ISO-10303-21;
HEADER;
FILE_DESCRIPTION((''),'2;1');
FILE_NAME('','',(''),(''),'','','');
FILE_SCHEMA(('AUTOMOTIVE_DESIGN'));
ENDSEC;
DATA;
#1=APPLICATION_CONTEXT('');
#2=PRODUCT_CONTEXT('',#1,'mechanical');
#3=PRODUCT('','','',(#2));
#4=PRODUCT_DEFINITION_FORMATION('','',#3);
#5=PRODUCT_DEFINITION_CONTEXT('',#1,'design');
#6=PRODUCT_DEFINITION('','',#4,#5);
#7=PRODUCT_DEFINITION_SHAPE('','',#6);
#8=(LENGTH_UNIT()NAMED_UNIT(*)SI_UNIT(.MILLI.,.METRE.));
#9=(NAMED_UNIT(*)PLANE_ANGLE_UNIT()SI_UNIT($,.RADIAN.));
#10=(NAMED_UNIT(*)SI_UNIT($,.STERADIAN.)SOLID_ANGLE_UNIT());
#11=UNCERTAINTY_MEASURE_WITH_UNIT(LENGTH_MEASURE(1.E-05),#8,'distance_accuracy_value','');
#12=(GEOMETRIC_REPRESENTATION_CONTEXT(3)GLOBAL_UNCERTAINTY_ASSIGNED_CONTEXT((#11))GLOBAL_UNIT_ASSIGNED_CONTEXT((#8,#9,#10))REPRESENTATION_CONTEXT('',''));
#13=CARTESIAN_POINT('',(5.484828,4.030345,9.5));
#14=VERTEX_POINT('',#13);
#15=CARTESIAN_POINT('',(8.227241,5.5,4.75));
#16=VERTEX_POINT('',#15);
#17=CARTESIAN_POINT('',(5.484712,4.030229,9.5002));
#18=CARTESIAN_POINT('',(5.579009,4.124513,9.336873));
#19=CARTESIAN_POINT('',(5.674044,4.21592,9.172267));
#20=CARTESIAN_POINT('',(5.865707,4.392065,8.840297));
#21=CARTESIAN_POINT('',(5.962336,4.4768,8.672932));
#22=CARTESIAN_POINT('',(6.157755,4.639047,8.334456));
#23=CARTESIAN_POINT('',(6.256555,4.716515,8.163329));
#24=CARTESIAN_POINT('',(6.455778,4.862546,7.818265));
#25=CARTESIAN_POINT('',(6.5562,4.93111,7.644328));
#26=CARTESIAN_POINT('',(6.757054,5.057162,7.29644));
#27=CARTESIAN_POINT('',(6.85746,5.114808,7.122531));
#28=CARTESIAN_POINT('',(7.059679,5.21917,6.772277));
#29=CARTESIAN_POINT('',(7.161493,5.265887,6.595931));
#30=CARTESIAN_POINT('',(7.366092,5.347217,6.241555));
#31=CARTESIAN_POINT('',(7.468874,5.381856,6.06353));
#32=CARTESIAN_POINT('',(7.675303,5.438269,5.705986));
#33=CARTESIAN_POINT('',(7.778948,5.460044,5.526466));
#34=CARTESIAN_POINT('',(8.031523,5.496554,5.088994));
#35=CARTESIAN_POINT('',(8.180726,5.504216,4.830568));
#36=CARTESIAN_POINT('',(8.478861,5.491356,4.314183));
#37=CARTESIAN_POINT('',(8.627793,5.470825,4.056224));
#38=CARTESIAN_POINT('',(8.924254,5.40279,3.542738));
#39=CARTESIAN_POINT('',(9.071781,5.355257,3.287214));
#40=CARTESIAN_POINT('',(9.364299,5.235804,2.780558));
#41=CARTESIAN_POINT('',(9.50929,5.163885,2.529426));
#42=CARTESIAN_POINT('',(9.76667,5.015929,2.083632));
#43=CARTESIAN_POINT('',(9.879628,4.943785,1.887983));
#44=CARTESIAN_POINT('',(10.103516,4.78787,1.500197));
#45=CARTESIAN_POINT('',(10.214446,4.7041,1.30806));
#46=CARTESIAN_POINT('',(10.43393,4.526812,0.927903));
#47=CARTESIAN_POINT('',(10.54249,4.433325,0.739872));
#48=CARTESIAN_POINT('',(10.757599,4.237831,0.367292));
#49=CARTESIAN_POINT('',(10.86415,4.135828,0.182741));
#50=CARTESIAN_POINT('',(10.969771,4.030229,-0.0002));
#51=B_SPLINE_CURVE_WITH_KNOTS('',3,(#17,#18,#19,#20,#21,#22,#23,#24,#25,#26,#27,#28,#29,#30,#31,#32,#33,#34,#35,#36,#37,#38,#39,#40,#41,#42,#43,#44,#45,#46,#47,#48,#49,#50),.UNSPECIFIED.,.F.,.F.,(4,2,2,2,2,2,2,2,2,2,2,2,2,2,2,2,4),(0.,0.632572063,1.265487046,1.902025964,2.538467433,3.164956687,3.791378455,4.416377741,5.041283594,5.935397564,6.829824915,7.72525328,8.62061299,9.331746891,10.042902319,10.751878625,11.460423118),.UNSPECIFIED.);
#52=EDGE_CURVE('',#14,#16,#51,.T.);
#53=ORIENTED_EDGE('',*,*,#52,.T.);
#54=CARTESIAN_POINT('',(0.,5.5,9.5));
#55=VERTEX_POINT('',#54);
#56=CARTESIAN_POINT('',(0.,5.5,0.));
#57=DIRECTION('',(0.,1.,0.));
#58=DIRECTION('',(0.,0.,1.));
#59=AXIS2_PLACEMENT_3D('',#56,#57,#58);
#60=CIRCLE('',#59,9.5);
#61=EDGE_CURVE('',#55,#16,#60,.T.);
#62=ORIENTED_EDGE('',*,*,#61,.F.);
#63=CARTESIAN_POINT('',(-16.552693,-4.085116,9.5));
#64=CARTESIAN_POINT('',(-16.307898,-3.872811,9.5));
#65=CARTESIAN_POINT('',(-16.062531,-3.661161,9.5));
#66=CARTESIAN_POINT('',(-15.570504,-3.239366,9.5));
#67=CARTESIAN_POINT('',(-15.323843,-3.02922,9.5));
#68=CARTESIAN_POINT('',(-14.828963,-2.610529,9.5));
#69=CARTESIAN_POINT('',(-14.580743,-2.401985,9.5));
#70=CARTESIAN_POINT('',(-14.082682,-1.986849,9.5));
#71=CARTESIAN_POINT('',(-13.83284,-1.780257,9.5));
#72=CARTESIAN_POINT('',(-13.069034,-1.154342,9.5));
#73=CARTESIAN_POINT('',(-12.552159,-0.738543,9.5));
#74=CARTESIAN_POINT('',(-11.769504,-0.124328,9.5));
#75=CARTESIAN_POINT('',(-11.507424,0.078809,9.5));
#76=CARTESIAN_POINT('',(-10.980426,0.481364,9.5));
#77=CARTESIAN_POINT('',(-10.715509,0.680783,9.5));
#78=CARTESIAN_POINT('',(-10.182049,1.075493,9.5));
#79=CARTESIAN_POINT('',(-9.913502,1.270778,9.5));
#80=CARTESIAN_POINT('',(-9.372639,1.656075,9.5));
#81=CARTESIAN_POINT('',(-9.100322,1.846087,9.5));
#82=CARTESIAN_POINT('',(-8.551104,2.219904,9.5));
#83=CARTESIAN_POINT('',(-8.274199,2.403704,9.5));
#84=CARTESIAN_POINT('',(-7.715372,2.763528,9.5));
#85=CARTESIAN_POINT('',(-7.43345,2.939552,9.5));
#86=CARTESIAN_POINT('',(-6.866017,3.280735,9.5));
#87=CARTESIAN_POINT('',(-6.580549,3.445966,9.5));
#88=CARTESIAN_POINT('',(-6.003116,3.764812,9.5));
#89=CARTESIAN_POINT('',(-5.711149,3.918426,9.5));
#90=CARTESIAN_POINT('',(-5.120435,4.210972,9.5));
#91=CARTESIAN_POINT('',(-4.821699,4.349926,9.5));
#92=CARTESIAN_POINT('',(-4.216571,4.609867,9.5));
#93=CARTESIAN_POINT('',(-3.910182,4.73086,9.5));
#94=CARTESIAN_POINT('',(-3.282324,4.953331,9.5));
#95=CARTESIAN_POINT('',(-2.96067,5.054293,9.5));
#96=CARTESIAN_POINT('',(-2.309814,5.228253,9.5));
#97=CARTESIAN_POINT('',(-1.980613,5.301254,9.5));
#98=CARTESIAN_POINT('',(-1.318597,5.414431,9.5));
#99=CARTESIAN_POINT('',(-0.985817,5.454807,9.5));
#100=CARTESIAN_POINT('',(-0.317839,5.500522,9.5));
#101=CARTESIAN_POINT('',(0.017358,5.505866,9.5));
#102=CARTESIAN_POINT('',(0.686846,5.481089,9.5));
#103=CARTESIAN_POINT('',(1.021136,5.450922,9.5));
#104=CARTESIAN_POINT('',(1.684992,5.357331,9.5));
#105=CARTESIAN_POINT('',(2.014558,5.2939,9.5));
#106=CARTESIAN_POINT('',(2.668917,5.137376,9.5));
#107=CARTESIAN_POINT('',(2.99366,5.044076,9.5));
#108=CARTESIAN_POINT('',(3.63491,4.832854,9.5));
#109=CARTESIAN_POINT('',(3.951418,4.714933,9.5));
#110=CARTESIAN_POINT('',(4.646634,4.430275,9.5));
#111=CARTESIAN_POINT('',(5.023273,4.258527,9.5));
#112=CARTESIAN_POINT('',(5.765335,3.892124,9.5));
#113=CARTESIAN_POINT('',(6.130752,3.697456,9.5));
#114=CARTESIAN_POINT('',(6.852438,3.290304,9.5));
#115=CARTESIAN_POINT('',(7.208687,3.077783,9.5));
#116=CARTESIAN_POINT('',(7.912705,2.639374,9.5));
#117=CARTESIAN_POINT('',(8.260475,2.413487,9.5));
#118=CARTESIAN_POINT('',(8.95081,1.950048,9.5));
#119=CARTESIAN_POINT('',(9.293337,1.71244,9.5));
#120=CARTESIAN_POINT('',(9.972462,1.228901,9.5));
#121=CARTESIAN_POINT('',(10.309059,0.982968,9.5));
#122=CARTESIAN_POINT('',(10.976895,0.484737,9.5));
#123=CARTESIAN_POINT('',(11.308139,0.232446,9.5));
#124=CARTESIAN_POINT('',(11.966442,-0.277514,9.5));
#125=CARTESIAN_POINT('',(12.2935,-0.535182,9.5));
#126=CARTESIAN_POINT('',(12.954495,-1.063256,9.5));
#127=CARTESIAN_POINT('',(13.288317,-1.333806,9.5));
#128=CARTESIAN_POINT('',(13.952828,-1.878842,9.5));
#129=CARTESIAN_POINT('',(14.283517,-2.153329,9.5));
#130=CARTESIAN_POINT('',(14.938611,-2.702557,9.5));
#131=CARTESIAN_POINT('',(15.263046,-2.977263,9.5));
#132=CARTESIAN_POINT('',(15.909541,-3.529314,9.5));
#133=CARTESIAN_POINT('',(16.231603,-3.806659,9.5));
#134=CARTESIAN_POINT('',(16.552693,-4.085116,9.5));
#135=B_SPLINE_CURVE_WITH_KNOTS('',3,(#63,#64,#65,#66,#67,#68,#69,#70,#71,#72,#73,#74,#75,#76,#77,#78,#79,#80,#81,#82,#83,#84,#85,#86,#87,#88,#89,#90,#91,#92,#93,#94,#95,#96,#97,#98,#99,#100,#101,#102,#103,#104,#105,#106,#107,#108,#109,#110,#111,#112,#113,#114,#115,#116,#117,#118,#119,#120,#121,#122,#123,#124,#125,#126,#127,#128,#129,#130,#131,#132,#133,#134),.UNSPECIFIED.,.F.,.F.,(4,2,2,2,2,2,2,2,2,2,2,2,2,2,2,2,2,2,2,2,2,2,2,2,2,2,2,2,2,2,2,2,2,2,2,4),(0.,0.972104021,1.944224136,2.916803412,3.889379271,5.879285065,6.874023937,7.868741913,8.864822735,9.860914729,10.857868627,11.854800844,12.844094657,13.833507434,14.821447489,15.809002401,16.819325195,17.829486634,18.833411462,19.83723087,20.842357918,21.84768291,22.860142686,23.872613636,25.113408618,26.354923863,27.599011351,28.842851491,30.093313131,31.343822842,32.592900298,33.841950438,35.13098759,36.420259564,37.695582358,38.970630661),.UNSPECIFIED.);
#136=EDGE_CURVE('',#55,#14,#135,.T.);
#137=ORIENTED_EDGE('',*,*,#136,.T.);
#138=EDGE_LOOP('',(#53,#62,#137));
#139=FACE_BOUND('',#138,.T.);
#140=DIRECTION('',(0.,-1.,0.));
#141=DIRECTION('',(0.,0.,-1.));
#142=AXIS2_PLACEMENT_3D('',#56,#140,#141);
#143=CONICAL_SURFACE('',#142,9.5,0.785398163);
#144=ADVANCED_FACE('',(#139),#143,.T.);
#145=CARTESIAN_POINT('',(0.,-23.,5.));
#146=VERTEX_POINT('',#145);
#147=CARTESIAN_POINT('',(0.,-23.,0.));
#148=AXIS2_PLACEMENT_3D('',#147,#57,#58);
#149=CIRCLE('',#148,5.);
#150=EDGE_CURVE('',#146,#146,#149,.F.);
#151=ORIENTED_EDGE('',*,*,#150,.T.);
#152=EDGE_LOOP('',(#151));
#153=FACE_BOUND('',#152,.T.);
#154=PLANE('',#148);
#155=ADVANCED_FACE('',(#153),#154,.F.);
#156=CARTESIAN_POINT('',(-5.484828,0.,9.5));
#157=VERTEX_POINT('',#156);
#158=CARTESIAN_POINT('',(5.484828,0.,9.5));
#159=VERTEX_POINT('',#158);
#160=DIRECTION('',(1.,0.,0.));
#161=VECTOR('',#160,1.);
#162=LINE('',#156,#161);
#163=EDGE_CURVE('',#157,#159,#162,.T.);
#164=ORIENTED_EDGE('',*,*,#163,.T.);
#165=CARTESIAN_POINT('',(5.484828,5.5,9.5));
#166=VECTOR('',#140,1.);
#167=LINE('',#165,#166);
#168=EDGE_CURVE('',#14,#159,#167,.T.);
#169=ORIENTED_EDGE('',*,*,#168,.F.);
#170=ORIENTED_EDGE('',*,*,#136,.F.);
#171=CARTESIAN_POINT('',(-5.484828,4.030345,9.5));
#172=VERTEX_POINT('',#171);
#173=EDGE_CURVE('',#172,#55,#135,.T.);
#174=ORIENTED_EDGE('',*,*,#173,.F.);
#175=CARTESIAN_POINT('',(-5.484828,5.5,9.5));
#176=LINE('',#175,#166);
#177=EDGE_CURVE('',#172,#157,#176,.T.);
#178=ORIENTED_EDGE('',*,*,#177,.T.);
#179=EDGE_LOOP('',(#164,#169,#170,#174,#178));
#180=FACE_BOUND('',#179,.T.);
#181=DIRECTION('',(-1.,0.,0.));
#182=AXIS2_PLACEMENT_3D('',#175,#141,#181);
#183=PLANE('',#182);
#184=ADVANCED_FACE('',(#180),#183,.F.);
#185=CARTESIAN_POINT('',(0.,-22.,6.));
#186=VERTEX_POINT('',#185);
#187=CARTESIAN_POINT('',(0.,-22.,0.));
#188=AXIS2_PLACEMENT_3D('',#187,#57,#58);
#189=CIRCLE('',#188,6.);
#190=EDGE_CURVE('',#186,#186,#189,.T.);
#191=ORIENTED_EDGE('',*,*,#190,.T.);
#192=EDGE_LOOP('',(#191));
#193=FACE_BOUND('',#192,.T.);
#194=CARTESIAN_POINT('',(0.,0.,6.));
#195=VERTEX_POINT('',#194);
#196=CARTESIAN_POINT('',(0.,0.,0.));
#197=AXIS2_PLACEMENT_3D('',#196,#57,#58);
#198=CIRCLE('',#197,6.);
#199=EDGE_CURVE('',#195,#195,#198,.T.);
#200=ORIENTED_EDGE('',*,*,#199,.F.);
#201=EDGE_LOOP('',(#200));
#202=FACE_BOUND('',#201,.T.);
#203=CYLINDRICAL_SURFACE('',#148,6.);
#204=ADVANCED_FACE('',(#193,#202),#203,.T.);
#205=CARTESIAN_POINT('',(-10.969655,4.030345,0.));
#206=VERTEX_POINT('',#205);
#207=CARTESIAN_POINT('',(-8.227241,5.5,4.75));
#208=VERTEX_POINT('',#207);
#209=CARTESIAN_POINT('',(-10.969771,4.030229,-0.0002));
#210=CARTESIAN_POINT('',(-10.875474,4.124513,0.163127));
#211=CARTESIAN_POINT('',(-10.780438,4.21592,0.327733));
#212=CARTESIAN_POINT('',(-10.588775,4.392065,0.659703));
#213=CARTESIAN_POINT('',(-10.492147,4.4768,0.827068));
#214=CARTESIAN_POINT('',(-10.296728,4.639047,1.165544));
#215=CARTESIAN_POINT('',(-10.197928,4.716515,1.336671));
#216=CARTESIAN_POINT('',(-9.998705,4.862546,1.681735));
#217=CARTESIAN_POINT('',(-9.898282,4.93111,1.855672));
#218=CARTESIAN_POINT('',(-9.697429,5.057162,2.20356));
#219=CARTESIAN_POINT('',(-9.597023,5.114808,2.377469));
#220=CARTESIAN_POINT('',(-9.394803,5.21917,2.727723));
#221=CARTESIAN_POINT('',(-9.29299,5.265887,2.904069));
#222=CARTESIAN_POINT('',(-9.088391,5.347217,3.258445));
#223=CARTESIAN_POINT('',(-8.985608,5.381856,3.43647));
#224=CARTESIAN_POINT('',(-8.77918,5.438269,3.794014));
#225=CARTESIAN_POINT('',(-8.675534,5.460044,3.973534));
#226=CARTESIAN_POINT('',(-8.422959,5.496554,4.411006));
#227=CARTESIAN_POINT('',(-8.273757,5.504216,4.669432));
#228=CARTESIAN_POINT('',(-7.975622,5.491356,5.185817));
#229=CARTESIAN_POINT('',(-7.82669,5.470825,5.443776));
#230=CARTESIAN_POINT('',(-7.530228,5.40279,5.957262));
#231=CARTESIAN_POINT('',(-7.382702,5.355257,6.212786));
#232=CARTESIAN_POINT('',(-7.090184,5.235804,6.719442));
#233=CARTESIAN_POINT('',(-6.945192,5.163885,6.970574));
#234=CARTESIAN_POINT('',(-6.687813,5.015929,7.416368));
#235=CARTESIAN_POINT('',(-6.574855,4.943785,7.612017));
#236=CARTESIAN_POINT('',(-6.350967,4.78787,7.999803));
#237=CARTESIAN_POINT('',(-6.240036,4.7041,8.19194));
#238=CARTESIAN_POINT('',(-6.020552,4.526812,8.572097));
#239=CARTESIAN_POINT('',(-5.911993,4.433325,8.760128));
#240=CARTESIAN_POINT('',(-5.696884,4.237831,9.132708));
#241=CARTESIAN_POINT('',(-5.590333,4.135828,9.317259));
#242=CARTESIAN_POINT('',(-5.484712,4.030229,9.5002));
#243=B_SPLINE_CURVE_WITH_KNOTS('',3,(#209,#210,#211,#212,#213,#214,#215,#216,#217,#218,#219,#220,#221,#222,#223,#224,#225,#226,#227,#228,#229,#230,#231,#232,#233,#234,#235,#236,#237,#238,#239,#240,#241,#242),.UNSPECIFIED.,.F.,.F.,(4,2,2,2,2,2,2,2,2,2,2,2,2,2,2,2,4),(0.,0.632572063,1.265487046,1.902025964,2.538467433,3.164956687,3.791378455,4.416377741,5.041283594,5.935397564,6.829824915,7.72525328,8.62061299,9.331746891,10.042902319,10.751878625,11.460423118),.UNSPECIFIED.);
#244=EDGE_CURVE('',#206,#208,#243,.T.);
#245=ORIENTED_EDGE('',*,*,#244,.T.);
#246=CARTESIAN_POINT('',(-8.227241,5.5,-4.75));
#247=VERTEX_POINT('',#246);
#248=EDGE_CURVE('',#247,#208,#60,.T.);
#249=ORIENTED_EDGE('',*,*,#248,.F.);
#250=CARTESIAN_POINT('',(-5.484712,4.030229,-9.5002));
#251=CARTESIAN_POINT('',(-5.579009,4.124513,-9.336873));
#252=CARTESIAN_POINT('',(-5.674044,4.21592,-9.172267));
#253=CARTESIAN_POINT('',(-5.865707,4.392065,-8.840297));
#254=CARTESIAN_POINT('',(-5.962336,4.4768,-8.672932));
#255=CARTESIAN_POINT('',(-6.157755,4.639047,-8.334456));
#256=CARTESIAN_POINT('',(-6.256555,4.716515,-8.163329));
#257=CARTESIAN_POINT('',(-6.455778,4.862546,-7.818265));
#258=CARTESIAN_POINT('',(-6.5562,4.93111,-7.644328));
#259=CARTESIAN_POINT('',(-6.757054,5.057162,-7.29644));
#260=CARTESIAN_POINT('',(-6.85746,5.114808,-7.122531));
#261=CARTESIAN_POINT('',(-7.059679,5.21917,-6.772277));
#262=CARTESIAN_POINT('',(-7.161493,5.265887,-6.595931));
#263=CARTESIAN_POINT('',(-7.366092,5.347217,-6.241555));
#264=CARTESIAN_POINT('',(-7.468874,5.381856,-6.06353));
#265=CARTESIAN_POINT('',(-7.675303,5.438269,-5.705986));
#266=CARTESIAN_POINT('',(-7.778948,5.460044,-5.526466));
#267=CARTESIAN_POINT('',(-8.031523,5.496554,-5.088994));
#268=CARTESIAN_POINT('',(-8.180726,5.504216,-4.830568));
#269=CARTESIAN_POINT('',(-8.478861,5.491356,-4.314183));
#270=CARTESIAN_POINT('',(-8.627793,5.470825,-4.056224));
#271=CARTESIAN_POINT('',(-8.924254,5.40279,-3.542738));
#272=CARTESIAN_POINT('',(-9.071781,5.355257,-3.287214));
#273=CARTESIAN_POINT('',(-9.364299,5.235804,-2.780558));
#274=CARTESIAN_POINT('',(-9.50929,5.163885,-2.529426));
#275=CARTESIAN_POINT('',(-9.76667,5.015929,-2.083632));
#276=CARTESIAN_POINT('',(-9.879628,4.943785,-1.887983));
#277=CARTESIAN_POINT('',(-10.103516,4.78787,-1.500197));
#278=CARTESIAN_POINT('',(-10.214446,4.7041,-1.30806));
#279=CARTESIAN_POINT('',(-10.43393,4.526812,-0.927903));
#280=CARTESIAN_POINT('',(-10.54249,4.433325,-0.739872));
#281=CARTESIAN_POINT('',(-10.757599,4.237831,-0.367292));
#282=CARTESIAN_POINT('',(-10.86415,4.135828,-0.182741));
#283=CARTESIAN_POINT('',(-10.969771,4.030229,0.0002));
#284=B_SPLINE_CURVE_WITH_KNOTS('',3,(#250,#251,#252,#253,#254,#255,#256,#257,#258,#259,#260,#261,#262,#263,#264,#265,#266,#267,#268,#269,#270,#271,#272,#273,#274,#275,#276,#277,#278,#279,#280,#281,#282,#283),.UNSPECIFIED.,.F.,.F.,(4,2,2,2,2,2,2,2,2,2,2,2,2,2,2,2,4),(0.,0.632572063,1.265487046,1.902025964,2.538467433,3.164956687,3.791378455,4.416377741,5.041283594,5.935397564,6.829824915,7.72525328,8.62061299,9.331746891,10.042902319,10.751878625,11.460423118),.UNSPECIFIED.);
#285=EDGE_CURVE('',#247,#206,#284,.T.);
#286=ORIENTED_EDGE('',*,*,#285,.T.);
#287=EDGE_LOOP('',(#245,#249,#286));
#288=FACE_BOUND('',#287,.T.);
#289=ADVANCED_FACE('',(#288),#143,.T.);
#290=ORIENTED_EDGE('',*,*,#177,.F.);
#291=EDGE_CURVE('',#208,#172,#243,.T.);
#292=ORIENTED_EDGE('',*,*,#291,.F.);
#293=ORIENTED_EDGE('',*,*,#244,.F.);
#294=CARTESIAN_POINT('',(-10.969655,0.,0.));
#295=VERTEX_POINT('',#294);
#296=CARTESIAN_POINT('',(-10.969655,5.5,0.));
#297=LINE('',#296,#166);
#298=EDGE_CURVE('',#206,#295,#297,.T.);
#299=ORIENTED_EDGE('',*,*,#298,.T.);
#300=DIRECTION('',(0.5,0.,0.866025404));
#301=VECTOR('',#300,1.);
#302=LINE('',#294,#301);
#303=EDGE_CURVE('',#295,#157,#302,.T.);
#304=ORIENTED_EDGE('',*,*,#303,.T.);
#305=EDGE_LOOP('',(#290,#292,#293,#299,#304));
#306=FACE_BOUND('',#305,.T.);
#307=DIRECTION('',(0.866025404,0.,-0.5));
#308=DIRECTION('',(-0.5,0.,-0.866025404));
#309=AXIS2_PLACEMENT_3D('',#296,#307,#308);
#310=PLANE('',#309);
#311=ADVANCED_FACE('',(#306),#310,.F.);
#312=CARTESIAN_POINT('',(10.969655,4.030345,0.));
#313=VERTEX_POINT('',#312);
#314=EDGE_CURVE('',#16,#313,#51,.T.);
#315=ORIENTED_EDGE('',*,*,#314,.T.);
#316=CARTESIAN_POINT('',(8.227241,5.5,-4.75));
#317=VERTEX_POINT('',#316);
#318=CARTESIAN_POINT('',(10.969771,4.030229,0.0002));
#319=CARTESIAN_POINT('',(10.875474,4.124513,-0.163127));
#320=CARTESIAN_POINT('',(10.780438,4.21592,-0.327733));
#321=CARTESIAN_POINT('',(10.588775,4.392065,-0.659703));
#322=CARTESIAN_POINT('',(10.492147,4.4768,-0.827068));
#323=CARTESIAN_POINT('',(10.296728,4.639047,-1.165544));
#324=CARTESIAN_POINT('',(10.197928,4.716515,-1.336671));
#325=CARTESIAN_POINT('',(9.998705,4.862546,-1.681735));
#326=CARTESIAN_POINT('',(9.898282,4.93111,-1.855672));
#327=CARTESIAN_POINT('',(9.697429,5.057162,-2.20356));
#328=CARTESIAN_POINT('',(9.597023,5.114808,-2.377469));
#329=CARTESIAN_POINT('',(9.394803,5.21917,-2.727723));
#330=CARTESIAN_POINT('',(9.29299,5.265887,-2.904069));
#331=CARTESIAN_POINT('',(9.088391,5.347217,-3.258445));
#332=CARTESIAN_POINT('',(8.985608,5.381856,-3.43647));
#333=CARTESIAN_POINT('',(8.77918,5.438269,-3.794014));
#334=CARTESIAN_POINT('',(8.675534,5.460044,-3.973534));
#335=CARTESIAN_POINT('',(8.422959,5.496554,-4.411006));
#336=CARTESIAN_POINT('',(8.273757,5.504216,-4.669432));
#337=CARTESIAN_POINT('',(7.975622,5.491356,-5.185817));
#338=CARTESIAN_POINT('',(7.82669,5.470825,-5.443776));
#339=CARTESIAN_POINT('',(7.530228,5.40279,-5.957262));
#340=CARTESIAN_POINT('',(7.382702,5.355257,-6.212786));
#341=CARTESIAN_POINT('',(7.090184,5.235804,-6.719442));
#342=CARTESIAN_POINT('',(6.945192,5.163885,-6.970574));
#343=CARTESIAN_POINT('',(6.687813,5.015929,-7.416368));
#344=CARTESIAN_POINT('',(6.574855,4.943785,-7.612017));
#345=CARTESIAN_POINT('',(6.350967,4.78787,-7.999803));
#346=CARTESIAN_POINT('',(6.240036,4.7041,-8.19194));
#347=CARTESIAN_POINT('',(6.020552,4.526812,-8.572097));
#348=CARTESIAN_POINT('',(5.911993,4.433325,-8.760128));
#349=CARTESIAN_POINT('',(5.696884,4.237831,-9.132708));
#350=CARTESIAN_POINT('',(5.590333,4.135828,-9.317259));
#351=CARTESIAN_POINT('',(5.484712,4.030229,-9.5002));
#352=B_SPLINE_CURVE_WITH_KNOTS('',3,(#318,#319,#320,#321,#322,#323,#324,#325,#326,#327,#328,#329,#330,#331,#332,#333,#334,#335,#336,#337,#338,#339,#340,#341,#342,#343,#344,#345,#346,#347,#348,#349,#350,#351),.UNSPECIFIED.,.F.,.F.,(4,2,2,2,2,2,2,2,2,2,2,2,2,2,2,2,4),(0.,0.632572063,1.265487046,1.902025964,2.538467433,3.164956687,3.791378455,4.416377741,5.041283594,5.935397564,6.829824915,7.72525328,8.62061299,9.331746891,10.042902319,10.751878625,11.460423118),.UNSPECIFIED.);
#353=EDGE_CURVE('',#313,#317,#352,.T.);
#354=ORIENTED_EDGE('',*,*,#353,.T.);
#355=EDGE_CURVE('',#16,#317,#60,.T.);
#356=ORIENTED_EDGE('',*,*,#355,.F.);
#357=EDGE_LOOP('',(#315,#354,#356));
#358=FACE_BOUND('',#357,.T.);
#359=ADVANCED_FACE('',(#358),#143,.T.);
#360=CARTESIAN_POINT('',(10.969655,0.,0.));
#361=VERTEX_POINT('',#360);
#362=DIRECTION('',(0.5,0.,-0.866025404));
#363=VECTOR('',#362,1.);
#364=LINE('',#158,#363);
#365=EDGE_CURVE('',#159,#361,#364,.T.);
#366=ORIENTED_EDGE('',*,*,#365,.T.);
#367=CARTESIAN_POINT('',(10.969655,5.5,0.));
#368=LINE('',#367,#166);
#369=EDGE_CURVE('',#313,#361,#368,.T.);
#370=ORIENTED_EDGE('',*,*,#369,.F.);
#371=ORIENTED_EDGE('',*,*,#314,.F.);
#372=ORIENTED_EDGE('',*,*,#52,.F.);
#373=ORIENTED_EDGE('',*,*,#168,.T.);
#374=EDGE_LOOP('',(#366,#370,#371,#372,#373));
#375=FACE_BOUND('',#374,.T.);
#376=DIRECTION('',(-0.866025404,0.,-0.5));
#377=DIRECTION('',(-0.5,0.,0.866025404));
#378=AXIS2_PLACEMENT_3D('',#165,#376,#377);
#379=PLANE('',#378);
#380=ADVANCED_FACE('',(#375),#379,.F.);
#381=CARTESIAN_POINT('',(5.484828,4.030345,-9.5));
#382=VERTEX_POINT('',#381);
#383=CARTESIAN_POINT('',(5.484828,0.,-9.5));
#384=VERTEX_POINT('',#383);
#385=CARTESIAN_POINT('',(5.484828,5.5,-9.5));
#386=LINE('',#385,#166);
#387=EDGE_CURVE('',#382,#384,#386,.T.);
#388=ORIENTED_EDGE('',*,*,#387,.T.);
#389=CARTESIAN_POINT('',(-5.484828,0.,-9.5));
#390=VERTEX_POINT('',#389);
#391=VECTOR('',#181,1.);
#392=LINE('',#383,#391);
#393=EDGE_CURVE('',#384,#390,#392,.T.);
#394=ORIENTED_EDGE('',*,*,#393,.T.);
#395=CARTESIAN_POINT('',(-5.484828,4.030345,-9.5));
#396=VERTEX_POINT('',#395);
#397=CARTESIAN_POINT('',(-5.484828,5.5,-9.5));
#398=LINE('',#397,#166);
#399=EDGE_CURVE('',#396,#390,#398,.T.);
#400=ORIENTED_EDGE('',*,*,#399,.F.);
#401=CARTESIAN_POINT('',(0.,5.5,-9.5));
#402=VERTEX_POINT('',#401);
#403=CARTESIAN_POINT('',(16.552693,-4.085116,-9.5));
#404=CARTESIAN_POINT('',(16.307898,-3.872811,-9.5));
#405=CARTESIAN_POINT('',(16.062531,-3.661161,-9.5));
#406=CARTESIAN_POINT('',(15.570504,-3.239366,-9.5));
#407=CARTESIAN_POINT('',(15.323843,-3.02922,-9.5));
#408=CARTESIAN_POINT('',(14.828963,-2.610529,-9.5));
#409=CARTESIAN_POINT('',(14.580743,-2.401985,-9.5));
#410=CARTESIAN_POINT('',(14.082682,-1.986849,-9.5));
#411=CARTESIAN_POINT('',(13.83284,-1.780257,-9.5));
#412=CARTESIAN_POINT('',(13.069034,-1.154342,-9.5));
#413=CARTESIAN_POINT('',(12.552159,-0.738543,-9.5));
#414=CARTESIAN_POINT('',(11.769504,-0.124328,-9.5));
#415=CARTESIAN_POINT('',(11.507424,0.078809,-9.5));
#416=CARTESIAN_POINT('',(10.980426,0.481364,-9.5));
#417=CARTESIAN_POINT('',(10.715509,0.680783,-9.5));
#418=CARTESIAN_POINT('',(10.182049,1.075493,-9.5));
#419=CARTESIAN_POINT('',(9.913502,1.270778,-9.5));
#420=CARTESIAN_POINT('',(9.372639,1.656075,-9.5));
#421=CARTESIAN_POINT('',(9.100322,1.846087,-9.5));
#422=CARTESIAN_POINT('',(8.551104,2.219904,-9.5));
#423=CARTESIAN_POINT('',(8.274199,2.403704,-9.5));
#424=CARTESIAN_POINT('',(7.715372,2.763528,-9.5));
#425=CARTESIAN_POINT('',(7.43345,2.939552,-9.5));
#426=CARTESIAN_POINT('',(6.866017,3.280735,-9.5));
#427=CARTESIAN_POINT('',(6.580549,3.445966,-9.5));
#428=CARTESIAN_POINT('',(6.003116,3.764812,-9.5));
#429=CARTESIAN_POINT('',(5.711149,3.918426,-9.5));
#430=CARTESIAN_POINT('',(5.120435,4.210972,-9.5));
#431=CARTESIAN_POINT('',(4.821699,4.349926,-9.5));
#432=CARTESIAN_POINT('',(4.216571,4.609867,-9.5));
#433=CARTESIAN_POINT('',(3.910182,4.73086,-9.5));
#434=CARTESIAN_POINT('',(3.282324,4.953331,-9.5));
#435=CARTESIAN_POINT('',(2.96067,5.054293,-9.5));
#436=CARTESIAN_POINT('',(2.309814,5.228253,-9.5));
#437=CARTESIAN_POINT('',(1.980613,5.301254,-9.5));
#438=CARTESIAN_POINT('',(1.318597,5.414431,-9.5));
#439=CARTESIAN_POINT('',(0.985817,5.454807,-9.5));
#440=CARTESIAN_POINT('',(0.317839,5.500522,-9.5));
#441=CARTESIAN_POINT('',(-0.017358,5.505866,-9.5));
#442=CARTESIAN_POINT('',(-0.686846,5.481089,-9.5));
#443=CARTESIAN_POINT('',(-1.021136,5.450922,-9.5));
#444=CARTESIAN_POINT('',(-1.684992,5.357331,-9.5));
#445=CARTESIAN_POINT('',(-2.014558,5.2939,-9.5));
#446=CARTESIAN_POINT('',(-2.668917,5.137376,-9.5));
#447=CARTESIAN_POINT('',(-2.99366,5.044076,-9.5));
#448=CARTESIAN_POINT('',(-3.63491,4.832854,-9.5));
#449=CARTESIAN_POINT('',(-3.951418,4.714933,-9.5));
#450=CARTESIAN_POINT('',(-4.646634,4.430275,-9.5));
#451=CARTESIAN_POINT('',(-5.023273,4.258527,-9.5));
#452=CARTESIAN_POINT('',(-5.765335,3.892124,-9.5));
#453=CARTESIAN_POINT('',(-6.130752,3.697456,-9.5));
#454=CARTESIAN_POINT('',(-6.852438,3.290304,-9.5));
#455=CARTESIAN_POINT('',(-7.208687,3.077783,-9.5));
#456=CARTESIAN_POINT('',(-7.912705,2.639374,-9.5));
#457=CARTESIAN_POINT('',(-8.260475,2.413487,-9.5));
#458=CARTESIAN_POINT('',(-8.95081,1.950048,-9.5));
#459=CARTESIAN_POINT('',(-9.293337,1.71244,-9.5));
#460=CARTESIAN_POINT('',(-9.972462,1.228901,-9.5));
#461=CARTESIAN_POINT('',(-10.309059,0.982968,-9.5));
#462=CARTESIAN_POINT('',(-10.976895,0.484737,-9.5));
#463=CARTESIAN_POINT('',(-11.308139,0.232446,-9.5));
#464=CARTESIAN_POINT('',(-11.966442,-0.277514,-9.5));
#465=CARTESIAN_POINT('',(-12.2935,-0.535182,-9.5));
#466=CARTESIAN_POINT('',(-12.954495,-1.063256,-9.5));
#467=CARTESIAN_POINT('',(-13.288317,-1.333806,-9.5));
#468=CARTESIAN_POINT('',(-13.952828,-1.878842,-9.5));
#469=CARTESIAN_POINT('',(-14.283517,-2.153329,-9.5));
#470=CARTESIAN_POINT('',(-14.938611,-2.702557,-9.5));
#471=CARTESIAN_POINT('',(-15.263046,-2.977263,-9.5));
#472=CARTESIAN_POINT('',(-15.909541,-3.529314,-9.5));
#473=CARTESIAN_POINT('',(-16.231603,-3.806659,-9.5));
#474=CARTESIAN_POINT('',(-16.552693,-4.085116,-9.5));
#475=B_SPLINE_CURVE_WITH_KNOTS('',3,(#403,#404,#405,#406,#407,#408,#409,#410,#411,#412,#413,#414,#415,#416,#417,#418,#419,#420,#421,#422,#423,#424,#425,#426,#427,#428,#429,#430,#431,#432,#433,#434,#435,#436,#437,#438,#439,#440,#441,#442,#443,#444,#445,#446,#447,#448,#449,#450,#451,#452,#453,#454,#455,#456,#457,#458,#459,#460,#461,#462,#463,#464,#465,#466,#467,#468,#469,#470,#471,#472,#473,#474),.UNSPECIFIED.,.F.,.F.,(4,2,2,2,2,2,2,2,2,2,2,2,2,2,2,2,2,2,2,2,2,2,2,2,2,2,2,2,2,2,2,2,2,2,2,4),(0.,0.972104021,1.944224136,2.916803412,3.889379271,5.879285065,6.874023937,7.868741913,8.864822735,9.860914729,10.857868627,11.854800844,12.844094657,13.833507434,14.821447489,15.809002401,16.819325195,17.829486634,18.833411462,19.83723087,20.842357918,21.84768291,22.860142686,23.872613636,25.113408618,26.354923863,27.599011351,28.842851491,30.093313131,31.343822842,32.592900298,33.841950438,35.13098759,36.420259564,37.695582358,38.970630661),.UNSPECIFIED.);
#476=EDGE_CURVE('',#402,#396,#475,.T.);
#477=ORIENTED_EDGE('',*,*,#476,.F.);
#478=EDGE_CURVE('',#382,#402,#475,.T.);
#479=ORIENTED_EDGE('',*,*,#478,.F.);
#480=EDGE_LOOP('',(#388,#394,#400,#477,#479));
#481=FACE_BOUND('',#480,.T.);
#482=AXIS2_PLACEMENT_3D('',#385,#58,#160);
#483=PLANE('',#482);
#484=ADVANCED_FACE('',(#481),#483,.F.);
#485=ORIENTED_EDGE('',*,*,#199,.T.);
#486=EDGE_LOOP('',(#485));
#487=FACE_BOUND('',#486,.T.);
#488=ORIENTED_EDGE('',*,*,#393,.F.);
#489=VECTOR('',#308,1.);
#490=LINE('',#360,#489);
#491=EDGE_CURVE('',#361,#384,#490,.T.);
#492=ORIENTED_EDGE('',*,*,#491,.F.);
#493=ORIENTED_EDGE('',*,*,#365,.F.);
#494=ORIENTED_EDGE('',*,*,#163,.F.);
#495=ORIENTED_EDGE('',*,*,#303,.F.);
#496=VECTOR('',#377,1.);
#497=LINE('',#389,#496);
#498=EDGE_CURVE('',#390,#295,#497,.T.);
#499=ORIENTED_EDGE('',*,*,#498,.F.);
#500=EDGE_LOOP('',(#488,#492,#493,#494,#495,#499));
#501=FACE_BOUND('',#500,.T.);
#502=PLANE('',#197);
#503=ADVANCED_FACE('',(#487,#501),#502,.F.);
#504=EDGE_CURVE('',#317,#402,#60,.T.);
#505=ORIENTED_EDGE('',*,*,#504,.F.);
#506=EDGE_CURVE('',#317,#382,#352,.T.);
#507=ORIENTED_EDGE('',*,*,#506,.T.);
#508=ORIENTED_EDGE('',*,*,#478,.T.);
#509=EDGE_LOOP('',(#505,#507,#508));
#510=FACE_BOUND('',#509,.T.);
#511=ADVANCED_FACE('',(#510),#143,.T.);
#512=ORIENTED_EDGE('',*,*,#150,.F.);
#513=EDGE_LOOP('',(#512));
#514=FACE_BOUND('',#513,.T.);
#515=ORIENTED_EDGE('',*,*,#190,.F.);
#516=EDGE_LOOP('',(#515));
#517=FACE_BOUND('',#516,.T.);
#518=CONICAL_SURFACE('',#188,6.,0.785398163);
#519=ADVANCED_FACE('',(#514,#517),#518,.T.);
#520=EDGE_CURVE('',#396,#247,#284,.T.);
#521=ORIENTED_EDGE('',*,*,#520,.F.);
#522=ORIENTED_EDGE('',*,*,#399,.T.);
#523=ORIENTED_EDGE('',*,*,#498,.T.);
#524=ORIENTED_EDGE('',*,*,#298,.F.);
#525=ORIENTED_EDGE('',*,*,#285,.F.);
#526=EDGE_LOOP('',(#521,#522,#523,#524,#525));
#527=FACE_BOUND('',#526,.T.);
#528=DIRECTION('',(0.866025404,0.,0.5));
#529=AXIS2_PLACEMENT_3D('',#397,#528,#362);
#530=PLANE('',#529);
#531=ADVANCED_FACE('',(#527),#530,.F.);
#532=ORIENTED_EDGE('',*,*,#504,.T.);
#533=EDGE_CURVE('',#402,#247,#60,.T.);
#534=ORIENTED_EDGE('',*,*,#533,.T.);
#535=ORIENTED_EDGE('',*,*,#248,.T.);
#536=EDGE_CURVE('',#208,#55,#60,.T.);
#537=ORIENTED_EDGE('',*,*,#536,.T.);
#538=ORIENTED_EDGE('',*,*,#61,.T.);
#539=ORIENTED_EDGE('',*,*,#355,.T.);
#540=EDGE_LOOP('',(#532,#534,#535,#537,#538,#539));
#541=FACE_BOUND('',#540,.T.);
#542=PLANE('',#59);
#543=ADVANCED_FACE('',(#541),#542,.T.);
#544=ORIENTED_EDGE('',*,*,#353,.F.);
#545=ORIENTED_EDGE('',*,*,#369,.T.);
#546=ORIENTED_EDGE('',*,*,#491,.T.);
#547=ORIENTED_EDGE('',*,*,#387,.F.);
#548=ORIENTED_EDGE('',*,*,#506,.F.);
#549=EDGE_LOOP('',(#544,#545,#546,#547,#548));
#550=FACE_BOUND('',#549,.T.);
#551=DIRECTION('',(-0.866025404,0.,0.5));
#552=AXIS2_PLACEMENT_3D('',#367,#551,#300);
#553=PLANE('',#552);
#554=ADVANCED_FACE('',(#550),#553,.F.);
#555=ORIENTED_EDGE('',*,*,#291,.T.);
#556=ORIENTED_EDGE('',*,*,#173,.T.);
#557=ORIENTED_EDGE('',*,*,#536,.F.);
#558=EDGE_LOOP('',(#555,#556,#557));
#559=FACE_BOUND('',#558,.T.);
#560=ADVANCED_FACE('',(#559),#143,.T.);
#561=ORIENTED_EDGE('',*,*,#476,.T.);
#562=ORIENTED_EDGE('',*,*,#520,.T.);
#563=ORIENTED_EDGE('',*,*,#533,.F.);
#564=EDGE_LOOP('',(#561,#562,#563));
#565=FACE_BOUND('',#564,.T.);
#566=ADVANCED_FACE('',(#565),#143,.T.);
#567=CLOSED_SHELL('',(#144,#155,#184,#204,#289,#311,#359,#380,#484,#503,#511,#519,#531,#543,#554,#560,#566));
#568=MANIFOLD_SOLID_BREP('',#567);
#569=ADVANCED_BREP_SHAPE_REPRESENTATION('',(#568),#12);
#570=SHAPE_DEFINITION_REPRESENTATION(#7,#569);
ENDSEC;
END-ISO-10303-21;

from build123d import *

# Parameters (mm, degrees)
SZKIC1_R                    = 6
DODANIE_WYCI_GNI_CIE1_DEPTH = 23
DODANIE_WYCI_GNI_CIE2_DEPTH = 5.5
SFAZOWANIE1_SIZE            = 1


with BuildPart() as part:
    # Szkic1 → Dodanie-wyciągnięcie1 (new body)
    with BuildSketch(Plane(origin=(0, 0, 0), x_dir=(1, 0, 0), z_dir=(0, 1, 0))):
        with Locations(Location((0, 0, 0), (0, 0, 270))):
            Circle(SZKIC1_R)
    extrude(amount=-DODANIE_WYCI_GNI_CIE1_DEPTH)

    # Szkic2 → Dodanie-wyciągnięcie2 (add)
    with BuildSketch(Plane(origin=(0, 0, 0), x_dir=(1, 0, 0), z_dir=(0, 1, 0))):
        Polygon((10.969655115, 0), (5.484827557, 9.5), (-5.484827557, 9.5), (-10.969655115, 0), (-5.484827557, -9.5), (5.484827557, -9.5), align=None)
    extrude(amount=DODANIE_WYCI_GNI_CIE2_DEPTH)

    # Szkic4 → Wycięcie-obrót1 (revolve, cut)
    with BuildSketch(Plane.XY):
        Polygon((10.969655115, 4.030344885), (9.5, 5.5), (10.969655115, 5.5), align=None)
    revolve(axis=Axis((0, 5.5, 0), (0, -1, 0)), mode=Mode.SUBTRACT)

    # Sfazowanie1
    sfazowanie1_edges = [part.edges().sort_by_distance(p)[0] for p in [
        (0, -23, -6),
    ]]
    chamfer(sfazowanie1_edges, length=SFAZOWANIE1_SIZE)


solid = part.part
